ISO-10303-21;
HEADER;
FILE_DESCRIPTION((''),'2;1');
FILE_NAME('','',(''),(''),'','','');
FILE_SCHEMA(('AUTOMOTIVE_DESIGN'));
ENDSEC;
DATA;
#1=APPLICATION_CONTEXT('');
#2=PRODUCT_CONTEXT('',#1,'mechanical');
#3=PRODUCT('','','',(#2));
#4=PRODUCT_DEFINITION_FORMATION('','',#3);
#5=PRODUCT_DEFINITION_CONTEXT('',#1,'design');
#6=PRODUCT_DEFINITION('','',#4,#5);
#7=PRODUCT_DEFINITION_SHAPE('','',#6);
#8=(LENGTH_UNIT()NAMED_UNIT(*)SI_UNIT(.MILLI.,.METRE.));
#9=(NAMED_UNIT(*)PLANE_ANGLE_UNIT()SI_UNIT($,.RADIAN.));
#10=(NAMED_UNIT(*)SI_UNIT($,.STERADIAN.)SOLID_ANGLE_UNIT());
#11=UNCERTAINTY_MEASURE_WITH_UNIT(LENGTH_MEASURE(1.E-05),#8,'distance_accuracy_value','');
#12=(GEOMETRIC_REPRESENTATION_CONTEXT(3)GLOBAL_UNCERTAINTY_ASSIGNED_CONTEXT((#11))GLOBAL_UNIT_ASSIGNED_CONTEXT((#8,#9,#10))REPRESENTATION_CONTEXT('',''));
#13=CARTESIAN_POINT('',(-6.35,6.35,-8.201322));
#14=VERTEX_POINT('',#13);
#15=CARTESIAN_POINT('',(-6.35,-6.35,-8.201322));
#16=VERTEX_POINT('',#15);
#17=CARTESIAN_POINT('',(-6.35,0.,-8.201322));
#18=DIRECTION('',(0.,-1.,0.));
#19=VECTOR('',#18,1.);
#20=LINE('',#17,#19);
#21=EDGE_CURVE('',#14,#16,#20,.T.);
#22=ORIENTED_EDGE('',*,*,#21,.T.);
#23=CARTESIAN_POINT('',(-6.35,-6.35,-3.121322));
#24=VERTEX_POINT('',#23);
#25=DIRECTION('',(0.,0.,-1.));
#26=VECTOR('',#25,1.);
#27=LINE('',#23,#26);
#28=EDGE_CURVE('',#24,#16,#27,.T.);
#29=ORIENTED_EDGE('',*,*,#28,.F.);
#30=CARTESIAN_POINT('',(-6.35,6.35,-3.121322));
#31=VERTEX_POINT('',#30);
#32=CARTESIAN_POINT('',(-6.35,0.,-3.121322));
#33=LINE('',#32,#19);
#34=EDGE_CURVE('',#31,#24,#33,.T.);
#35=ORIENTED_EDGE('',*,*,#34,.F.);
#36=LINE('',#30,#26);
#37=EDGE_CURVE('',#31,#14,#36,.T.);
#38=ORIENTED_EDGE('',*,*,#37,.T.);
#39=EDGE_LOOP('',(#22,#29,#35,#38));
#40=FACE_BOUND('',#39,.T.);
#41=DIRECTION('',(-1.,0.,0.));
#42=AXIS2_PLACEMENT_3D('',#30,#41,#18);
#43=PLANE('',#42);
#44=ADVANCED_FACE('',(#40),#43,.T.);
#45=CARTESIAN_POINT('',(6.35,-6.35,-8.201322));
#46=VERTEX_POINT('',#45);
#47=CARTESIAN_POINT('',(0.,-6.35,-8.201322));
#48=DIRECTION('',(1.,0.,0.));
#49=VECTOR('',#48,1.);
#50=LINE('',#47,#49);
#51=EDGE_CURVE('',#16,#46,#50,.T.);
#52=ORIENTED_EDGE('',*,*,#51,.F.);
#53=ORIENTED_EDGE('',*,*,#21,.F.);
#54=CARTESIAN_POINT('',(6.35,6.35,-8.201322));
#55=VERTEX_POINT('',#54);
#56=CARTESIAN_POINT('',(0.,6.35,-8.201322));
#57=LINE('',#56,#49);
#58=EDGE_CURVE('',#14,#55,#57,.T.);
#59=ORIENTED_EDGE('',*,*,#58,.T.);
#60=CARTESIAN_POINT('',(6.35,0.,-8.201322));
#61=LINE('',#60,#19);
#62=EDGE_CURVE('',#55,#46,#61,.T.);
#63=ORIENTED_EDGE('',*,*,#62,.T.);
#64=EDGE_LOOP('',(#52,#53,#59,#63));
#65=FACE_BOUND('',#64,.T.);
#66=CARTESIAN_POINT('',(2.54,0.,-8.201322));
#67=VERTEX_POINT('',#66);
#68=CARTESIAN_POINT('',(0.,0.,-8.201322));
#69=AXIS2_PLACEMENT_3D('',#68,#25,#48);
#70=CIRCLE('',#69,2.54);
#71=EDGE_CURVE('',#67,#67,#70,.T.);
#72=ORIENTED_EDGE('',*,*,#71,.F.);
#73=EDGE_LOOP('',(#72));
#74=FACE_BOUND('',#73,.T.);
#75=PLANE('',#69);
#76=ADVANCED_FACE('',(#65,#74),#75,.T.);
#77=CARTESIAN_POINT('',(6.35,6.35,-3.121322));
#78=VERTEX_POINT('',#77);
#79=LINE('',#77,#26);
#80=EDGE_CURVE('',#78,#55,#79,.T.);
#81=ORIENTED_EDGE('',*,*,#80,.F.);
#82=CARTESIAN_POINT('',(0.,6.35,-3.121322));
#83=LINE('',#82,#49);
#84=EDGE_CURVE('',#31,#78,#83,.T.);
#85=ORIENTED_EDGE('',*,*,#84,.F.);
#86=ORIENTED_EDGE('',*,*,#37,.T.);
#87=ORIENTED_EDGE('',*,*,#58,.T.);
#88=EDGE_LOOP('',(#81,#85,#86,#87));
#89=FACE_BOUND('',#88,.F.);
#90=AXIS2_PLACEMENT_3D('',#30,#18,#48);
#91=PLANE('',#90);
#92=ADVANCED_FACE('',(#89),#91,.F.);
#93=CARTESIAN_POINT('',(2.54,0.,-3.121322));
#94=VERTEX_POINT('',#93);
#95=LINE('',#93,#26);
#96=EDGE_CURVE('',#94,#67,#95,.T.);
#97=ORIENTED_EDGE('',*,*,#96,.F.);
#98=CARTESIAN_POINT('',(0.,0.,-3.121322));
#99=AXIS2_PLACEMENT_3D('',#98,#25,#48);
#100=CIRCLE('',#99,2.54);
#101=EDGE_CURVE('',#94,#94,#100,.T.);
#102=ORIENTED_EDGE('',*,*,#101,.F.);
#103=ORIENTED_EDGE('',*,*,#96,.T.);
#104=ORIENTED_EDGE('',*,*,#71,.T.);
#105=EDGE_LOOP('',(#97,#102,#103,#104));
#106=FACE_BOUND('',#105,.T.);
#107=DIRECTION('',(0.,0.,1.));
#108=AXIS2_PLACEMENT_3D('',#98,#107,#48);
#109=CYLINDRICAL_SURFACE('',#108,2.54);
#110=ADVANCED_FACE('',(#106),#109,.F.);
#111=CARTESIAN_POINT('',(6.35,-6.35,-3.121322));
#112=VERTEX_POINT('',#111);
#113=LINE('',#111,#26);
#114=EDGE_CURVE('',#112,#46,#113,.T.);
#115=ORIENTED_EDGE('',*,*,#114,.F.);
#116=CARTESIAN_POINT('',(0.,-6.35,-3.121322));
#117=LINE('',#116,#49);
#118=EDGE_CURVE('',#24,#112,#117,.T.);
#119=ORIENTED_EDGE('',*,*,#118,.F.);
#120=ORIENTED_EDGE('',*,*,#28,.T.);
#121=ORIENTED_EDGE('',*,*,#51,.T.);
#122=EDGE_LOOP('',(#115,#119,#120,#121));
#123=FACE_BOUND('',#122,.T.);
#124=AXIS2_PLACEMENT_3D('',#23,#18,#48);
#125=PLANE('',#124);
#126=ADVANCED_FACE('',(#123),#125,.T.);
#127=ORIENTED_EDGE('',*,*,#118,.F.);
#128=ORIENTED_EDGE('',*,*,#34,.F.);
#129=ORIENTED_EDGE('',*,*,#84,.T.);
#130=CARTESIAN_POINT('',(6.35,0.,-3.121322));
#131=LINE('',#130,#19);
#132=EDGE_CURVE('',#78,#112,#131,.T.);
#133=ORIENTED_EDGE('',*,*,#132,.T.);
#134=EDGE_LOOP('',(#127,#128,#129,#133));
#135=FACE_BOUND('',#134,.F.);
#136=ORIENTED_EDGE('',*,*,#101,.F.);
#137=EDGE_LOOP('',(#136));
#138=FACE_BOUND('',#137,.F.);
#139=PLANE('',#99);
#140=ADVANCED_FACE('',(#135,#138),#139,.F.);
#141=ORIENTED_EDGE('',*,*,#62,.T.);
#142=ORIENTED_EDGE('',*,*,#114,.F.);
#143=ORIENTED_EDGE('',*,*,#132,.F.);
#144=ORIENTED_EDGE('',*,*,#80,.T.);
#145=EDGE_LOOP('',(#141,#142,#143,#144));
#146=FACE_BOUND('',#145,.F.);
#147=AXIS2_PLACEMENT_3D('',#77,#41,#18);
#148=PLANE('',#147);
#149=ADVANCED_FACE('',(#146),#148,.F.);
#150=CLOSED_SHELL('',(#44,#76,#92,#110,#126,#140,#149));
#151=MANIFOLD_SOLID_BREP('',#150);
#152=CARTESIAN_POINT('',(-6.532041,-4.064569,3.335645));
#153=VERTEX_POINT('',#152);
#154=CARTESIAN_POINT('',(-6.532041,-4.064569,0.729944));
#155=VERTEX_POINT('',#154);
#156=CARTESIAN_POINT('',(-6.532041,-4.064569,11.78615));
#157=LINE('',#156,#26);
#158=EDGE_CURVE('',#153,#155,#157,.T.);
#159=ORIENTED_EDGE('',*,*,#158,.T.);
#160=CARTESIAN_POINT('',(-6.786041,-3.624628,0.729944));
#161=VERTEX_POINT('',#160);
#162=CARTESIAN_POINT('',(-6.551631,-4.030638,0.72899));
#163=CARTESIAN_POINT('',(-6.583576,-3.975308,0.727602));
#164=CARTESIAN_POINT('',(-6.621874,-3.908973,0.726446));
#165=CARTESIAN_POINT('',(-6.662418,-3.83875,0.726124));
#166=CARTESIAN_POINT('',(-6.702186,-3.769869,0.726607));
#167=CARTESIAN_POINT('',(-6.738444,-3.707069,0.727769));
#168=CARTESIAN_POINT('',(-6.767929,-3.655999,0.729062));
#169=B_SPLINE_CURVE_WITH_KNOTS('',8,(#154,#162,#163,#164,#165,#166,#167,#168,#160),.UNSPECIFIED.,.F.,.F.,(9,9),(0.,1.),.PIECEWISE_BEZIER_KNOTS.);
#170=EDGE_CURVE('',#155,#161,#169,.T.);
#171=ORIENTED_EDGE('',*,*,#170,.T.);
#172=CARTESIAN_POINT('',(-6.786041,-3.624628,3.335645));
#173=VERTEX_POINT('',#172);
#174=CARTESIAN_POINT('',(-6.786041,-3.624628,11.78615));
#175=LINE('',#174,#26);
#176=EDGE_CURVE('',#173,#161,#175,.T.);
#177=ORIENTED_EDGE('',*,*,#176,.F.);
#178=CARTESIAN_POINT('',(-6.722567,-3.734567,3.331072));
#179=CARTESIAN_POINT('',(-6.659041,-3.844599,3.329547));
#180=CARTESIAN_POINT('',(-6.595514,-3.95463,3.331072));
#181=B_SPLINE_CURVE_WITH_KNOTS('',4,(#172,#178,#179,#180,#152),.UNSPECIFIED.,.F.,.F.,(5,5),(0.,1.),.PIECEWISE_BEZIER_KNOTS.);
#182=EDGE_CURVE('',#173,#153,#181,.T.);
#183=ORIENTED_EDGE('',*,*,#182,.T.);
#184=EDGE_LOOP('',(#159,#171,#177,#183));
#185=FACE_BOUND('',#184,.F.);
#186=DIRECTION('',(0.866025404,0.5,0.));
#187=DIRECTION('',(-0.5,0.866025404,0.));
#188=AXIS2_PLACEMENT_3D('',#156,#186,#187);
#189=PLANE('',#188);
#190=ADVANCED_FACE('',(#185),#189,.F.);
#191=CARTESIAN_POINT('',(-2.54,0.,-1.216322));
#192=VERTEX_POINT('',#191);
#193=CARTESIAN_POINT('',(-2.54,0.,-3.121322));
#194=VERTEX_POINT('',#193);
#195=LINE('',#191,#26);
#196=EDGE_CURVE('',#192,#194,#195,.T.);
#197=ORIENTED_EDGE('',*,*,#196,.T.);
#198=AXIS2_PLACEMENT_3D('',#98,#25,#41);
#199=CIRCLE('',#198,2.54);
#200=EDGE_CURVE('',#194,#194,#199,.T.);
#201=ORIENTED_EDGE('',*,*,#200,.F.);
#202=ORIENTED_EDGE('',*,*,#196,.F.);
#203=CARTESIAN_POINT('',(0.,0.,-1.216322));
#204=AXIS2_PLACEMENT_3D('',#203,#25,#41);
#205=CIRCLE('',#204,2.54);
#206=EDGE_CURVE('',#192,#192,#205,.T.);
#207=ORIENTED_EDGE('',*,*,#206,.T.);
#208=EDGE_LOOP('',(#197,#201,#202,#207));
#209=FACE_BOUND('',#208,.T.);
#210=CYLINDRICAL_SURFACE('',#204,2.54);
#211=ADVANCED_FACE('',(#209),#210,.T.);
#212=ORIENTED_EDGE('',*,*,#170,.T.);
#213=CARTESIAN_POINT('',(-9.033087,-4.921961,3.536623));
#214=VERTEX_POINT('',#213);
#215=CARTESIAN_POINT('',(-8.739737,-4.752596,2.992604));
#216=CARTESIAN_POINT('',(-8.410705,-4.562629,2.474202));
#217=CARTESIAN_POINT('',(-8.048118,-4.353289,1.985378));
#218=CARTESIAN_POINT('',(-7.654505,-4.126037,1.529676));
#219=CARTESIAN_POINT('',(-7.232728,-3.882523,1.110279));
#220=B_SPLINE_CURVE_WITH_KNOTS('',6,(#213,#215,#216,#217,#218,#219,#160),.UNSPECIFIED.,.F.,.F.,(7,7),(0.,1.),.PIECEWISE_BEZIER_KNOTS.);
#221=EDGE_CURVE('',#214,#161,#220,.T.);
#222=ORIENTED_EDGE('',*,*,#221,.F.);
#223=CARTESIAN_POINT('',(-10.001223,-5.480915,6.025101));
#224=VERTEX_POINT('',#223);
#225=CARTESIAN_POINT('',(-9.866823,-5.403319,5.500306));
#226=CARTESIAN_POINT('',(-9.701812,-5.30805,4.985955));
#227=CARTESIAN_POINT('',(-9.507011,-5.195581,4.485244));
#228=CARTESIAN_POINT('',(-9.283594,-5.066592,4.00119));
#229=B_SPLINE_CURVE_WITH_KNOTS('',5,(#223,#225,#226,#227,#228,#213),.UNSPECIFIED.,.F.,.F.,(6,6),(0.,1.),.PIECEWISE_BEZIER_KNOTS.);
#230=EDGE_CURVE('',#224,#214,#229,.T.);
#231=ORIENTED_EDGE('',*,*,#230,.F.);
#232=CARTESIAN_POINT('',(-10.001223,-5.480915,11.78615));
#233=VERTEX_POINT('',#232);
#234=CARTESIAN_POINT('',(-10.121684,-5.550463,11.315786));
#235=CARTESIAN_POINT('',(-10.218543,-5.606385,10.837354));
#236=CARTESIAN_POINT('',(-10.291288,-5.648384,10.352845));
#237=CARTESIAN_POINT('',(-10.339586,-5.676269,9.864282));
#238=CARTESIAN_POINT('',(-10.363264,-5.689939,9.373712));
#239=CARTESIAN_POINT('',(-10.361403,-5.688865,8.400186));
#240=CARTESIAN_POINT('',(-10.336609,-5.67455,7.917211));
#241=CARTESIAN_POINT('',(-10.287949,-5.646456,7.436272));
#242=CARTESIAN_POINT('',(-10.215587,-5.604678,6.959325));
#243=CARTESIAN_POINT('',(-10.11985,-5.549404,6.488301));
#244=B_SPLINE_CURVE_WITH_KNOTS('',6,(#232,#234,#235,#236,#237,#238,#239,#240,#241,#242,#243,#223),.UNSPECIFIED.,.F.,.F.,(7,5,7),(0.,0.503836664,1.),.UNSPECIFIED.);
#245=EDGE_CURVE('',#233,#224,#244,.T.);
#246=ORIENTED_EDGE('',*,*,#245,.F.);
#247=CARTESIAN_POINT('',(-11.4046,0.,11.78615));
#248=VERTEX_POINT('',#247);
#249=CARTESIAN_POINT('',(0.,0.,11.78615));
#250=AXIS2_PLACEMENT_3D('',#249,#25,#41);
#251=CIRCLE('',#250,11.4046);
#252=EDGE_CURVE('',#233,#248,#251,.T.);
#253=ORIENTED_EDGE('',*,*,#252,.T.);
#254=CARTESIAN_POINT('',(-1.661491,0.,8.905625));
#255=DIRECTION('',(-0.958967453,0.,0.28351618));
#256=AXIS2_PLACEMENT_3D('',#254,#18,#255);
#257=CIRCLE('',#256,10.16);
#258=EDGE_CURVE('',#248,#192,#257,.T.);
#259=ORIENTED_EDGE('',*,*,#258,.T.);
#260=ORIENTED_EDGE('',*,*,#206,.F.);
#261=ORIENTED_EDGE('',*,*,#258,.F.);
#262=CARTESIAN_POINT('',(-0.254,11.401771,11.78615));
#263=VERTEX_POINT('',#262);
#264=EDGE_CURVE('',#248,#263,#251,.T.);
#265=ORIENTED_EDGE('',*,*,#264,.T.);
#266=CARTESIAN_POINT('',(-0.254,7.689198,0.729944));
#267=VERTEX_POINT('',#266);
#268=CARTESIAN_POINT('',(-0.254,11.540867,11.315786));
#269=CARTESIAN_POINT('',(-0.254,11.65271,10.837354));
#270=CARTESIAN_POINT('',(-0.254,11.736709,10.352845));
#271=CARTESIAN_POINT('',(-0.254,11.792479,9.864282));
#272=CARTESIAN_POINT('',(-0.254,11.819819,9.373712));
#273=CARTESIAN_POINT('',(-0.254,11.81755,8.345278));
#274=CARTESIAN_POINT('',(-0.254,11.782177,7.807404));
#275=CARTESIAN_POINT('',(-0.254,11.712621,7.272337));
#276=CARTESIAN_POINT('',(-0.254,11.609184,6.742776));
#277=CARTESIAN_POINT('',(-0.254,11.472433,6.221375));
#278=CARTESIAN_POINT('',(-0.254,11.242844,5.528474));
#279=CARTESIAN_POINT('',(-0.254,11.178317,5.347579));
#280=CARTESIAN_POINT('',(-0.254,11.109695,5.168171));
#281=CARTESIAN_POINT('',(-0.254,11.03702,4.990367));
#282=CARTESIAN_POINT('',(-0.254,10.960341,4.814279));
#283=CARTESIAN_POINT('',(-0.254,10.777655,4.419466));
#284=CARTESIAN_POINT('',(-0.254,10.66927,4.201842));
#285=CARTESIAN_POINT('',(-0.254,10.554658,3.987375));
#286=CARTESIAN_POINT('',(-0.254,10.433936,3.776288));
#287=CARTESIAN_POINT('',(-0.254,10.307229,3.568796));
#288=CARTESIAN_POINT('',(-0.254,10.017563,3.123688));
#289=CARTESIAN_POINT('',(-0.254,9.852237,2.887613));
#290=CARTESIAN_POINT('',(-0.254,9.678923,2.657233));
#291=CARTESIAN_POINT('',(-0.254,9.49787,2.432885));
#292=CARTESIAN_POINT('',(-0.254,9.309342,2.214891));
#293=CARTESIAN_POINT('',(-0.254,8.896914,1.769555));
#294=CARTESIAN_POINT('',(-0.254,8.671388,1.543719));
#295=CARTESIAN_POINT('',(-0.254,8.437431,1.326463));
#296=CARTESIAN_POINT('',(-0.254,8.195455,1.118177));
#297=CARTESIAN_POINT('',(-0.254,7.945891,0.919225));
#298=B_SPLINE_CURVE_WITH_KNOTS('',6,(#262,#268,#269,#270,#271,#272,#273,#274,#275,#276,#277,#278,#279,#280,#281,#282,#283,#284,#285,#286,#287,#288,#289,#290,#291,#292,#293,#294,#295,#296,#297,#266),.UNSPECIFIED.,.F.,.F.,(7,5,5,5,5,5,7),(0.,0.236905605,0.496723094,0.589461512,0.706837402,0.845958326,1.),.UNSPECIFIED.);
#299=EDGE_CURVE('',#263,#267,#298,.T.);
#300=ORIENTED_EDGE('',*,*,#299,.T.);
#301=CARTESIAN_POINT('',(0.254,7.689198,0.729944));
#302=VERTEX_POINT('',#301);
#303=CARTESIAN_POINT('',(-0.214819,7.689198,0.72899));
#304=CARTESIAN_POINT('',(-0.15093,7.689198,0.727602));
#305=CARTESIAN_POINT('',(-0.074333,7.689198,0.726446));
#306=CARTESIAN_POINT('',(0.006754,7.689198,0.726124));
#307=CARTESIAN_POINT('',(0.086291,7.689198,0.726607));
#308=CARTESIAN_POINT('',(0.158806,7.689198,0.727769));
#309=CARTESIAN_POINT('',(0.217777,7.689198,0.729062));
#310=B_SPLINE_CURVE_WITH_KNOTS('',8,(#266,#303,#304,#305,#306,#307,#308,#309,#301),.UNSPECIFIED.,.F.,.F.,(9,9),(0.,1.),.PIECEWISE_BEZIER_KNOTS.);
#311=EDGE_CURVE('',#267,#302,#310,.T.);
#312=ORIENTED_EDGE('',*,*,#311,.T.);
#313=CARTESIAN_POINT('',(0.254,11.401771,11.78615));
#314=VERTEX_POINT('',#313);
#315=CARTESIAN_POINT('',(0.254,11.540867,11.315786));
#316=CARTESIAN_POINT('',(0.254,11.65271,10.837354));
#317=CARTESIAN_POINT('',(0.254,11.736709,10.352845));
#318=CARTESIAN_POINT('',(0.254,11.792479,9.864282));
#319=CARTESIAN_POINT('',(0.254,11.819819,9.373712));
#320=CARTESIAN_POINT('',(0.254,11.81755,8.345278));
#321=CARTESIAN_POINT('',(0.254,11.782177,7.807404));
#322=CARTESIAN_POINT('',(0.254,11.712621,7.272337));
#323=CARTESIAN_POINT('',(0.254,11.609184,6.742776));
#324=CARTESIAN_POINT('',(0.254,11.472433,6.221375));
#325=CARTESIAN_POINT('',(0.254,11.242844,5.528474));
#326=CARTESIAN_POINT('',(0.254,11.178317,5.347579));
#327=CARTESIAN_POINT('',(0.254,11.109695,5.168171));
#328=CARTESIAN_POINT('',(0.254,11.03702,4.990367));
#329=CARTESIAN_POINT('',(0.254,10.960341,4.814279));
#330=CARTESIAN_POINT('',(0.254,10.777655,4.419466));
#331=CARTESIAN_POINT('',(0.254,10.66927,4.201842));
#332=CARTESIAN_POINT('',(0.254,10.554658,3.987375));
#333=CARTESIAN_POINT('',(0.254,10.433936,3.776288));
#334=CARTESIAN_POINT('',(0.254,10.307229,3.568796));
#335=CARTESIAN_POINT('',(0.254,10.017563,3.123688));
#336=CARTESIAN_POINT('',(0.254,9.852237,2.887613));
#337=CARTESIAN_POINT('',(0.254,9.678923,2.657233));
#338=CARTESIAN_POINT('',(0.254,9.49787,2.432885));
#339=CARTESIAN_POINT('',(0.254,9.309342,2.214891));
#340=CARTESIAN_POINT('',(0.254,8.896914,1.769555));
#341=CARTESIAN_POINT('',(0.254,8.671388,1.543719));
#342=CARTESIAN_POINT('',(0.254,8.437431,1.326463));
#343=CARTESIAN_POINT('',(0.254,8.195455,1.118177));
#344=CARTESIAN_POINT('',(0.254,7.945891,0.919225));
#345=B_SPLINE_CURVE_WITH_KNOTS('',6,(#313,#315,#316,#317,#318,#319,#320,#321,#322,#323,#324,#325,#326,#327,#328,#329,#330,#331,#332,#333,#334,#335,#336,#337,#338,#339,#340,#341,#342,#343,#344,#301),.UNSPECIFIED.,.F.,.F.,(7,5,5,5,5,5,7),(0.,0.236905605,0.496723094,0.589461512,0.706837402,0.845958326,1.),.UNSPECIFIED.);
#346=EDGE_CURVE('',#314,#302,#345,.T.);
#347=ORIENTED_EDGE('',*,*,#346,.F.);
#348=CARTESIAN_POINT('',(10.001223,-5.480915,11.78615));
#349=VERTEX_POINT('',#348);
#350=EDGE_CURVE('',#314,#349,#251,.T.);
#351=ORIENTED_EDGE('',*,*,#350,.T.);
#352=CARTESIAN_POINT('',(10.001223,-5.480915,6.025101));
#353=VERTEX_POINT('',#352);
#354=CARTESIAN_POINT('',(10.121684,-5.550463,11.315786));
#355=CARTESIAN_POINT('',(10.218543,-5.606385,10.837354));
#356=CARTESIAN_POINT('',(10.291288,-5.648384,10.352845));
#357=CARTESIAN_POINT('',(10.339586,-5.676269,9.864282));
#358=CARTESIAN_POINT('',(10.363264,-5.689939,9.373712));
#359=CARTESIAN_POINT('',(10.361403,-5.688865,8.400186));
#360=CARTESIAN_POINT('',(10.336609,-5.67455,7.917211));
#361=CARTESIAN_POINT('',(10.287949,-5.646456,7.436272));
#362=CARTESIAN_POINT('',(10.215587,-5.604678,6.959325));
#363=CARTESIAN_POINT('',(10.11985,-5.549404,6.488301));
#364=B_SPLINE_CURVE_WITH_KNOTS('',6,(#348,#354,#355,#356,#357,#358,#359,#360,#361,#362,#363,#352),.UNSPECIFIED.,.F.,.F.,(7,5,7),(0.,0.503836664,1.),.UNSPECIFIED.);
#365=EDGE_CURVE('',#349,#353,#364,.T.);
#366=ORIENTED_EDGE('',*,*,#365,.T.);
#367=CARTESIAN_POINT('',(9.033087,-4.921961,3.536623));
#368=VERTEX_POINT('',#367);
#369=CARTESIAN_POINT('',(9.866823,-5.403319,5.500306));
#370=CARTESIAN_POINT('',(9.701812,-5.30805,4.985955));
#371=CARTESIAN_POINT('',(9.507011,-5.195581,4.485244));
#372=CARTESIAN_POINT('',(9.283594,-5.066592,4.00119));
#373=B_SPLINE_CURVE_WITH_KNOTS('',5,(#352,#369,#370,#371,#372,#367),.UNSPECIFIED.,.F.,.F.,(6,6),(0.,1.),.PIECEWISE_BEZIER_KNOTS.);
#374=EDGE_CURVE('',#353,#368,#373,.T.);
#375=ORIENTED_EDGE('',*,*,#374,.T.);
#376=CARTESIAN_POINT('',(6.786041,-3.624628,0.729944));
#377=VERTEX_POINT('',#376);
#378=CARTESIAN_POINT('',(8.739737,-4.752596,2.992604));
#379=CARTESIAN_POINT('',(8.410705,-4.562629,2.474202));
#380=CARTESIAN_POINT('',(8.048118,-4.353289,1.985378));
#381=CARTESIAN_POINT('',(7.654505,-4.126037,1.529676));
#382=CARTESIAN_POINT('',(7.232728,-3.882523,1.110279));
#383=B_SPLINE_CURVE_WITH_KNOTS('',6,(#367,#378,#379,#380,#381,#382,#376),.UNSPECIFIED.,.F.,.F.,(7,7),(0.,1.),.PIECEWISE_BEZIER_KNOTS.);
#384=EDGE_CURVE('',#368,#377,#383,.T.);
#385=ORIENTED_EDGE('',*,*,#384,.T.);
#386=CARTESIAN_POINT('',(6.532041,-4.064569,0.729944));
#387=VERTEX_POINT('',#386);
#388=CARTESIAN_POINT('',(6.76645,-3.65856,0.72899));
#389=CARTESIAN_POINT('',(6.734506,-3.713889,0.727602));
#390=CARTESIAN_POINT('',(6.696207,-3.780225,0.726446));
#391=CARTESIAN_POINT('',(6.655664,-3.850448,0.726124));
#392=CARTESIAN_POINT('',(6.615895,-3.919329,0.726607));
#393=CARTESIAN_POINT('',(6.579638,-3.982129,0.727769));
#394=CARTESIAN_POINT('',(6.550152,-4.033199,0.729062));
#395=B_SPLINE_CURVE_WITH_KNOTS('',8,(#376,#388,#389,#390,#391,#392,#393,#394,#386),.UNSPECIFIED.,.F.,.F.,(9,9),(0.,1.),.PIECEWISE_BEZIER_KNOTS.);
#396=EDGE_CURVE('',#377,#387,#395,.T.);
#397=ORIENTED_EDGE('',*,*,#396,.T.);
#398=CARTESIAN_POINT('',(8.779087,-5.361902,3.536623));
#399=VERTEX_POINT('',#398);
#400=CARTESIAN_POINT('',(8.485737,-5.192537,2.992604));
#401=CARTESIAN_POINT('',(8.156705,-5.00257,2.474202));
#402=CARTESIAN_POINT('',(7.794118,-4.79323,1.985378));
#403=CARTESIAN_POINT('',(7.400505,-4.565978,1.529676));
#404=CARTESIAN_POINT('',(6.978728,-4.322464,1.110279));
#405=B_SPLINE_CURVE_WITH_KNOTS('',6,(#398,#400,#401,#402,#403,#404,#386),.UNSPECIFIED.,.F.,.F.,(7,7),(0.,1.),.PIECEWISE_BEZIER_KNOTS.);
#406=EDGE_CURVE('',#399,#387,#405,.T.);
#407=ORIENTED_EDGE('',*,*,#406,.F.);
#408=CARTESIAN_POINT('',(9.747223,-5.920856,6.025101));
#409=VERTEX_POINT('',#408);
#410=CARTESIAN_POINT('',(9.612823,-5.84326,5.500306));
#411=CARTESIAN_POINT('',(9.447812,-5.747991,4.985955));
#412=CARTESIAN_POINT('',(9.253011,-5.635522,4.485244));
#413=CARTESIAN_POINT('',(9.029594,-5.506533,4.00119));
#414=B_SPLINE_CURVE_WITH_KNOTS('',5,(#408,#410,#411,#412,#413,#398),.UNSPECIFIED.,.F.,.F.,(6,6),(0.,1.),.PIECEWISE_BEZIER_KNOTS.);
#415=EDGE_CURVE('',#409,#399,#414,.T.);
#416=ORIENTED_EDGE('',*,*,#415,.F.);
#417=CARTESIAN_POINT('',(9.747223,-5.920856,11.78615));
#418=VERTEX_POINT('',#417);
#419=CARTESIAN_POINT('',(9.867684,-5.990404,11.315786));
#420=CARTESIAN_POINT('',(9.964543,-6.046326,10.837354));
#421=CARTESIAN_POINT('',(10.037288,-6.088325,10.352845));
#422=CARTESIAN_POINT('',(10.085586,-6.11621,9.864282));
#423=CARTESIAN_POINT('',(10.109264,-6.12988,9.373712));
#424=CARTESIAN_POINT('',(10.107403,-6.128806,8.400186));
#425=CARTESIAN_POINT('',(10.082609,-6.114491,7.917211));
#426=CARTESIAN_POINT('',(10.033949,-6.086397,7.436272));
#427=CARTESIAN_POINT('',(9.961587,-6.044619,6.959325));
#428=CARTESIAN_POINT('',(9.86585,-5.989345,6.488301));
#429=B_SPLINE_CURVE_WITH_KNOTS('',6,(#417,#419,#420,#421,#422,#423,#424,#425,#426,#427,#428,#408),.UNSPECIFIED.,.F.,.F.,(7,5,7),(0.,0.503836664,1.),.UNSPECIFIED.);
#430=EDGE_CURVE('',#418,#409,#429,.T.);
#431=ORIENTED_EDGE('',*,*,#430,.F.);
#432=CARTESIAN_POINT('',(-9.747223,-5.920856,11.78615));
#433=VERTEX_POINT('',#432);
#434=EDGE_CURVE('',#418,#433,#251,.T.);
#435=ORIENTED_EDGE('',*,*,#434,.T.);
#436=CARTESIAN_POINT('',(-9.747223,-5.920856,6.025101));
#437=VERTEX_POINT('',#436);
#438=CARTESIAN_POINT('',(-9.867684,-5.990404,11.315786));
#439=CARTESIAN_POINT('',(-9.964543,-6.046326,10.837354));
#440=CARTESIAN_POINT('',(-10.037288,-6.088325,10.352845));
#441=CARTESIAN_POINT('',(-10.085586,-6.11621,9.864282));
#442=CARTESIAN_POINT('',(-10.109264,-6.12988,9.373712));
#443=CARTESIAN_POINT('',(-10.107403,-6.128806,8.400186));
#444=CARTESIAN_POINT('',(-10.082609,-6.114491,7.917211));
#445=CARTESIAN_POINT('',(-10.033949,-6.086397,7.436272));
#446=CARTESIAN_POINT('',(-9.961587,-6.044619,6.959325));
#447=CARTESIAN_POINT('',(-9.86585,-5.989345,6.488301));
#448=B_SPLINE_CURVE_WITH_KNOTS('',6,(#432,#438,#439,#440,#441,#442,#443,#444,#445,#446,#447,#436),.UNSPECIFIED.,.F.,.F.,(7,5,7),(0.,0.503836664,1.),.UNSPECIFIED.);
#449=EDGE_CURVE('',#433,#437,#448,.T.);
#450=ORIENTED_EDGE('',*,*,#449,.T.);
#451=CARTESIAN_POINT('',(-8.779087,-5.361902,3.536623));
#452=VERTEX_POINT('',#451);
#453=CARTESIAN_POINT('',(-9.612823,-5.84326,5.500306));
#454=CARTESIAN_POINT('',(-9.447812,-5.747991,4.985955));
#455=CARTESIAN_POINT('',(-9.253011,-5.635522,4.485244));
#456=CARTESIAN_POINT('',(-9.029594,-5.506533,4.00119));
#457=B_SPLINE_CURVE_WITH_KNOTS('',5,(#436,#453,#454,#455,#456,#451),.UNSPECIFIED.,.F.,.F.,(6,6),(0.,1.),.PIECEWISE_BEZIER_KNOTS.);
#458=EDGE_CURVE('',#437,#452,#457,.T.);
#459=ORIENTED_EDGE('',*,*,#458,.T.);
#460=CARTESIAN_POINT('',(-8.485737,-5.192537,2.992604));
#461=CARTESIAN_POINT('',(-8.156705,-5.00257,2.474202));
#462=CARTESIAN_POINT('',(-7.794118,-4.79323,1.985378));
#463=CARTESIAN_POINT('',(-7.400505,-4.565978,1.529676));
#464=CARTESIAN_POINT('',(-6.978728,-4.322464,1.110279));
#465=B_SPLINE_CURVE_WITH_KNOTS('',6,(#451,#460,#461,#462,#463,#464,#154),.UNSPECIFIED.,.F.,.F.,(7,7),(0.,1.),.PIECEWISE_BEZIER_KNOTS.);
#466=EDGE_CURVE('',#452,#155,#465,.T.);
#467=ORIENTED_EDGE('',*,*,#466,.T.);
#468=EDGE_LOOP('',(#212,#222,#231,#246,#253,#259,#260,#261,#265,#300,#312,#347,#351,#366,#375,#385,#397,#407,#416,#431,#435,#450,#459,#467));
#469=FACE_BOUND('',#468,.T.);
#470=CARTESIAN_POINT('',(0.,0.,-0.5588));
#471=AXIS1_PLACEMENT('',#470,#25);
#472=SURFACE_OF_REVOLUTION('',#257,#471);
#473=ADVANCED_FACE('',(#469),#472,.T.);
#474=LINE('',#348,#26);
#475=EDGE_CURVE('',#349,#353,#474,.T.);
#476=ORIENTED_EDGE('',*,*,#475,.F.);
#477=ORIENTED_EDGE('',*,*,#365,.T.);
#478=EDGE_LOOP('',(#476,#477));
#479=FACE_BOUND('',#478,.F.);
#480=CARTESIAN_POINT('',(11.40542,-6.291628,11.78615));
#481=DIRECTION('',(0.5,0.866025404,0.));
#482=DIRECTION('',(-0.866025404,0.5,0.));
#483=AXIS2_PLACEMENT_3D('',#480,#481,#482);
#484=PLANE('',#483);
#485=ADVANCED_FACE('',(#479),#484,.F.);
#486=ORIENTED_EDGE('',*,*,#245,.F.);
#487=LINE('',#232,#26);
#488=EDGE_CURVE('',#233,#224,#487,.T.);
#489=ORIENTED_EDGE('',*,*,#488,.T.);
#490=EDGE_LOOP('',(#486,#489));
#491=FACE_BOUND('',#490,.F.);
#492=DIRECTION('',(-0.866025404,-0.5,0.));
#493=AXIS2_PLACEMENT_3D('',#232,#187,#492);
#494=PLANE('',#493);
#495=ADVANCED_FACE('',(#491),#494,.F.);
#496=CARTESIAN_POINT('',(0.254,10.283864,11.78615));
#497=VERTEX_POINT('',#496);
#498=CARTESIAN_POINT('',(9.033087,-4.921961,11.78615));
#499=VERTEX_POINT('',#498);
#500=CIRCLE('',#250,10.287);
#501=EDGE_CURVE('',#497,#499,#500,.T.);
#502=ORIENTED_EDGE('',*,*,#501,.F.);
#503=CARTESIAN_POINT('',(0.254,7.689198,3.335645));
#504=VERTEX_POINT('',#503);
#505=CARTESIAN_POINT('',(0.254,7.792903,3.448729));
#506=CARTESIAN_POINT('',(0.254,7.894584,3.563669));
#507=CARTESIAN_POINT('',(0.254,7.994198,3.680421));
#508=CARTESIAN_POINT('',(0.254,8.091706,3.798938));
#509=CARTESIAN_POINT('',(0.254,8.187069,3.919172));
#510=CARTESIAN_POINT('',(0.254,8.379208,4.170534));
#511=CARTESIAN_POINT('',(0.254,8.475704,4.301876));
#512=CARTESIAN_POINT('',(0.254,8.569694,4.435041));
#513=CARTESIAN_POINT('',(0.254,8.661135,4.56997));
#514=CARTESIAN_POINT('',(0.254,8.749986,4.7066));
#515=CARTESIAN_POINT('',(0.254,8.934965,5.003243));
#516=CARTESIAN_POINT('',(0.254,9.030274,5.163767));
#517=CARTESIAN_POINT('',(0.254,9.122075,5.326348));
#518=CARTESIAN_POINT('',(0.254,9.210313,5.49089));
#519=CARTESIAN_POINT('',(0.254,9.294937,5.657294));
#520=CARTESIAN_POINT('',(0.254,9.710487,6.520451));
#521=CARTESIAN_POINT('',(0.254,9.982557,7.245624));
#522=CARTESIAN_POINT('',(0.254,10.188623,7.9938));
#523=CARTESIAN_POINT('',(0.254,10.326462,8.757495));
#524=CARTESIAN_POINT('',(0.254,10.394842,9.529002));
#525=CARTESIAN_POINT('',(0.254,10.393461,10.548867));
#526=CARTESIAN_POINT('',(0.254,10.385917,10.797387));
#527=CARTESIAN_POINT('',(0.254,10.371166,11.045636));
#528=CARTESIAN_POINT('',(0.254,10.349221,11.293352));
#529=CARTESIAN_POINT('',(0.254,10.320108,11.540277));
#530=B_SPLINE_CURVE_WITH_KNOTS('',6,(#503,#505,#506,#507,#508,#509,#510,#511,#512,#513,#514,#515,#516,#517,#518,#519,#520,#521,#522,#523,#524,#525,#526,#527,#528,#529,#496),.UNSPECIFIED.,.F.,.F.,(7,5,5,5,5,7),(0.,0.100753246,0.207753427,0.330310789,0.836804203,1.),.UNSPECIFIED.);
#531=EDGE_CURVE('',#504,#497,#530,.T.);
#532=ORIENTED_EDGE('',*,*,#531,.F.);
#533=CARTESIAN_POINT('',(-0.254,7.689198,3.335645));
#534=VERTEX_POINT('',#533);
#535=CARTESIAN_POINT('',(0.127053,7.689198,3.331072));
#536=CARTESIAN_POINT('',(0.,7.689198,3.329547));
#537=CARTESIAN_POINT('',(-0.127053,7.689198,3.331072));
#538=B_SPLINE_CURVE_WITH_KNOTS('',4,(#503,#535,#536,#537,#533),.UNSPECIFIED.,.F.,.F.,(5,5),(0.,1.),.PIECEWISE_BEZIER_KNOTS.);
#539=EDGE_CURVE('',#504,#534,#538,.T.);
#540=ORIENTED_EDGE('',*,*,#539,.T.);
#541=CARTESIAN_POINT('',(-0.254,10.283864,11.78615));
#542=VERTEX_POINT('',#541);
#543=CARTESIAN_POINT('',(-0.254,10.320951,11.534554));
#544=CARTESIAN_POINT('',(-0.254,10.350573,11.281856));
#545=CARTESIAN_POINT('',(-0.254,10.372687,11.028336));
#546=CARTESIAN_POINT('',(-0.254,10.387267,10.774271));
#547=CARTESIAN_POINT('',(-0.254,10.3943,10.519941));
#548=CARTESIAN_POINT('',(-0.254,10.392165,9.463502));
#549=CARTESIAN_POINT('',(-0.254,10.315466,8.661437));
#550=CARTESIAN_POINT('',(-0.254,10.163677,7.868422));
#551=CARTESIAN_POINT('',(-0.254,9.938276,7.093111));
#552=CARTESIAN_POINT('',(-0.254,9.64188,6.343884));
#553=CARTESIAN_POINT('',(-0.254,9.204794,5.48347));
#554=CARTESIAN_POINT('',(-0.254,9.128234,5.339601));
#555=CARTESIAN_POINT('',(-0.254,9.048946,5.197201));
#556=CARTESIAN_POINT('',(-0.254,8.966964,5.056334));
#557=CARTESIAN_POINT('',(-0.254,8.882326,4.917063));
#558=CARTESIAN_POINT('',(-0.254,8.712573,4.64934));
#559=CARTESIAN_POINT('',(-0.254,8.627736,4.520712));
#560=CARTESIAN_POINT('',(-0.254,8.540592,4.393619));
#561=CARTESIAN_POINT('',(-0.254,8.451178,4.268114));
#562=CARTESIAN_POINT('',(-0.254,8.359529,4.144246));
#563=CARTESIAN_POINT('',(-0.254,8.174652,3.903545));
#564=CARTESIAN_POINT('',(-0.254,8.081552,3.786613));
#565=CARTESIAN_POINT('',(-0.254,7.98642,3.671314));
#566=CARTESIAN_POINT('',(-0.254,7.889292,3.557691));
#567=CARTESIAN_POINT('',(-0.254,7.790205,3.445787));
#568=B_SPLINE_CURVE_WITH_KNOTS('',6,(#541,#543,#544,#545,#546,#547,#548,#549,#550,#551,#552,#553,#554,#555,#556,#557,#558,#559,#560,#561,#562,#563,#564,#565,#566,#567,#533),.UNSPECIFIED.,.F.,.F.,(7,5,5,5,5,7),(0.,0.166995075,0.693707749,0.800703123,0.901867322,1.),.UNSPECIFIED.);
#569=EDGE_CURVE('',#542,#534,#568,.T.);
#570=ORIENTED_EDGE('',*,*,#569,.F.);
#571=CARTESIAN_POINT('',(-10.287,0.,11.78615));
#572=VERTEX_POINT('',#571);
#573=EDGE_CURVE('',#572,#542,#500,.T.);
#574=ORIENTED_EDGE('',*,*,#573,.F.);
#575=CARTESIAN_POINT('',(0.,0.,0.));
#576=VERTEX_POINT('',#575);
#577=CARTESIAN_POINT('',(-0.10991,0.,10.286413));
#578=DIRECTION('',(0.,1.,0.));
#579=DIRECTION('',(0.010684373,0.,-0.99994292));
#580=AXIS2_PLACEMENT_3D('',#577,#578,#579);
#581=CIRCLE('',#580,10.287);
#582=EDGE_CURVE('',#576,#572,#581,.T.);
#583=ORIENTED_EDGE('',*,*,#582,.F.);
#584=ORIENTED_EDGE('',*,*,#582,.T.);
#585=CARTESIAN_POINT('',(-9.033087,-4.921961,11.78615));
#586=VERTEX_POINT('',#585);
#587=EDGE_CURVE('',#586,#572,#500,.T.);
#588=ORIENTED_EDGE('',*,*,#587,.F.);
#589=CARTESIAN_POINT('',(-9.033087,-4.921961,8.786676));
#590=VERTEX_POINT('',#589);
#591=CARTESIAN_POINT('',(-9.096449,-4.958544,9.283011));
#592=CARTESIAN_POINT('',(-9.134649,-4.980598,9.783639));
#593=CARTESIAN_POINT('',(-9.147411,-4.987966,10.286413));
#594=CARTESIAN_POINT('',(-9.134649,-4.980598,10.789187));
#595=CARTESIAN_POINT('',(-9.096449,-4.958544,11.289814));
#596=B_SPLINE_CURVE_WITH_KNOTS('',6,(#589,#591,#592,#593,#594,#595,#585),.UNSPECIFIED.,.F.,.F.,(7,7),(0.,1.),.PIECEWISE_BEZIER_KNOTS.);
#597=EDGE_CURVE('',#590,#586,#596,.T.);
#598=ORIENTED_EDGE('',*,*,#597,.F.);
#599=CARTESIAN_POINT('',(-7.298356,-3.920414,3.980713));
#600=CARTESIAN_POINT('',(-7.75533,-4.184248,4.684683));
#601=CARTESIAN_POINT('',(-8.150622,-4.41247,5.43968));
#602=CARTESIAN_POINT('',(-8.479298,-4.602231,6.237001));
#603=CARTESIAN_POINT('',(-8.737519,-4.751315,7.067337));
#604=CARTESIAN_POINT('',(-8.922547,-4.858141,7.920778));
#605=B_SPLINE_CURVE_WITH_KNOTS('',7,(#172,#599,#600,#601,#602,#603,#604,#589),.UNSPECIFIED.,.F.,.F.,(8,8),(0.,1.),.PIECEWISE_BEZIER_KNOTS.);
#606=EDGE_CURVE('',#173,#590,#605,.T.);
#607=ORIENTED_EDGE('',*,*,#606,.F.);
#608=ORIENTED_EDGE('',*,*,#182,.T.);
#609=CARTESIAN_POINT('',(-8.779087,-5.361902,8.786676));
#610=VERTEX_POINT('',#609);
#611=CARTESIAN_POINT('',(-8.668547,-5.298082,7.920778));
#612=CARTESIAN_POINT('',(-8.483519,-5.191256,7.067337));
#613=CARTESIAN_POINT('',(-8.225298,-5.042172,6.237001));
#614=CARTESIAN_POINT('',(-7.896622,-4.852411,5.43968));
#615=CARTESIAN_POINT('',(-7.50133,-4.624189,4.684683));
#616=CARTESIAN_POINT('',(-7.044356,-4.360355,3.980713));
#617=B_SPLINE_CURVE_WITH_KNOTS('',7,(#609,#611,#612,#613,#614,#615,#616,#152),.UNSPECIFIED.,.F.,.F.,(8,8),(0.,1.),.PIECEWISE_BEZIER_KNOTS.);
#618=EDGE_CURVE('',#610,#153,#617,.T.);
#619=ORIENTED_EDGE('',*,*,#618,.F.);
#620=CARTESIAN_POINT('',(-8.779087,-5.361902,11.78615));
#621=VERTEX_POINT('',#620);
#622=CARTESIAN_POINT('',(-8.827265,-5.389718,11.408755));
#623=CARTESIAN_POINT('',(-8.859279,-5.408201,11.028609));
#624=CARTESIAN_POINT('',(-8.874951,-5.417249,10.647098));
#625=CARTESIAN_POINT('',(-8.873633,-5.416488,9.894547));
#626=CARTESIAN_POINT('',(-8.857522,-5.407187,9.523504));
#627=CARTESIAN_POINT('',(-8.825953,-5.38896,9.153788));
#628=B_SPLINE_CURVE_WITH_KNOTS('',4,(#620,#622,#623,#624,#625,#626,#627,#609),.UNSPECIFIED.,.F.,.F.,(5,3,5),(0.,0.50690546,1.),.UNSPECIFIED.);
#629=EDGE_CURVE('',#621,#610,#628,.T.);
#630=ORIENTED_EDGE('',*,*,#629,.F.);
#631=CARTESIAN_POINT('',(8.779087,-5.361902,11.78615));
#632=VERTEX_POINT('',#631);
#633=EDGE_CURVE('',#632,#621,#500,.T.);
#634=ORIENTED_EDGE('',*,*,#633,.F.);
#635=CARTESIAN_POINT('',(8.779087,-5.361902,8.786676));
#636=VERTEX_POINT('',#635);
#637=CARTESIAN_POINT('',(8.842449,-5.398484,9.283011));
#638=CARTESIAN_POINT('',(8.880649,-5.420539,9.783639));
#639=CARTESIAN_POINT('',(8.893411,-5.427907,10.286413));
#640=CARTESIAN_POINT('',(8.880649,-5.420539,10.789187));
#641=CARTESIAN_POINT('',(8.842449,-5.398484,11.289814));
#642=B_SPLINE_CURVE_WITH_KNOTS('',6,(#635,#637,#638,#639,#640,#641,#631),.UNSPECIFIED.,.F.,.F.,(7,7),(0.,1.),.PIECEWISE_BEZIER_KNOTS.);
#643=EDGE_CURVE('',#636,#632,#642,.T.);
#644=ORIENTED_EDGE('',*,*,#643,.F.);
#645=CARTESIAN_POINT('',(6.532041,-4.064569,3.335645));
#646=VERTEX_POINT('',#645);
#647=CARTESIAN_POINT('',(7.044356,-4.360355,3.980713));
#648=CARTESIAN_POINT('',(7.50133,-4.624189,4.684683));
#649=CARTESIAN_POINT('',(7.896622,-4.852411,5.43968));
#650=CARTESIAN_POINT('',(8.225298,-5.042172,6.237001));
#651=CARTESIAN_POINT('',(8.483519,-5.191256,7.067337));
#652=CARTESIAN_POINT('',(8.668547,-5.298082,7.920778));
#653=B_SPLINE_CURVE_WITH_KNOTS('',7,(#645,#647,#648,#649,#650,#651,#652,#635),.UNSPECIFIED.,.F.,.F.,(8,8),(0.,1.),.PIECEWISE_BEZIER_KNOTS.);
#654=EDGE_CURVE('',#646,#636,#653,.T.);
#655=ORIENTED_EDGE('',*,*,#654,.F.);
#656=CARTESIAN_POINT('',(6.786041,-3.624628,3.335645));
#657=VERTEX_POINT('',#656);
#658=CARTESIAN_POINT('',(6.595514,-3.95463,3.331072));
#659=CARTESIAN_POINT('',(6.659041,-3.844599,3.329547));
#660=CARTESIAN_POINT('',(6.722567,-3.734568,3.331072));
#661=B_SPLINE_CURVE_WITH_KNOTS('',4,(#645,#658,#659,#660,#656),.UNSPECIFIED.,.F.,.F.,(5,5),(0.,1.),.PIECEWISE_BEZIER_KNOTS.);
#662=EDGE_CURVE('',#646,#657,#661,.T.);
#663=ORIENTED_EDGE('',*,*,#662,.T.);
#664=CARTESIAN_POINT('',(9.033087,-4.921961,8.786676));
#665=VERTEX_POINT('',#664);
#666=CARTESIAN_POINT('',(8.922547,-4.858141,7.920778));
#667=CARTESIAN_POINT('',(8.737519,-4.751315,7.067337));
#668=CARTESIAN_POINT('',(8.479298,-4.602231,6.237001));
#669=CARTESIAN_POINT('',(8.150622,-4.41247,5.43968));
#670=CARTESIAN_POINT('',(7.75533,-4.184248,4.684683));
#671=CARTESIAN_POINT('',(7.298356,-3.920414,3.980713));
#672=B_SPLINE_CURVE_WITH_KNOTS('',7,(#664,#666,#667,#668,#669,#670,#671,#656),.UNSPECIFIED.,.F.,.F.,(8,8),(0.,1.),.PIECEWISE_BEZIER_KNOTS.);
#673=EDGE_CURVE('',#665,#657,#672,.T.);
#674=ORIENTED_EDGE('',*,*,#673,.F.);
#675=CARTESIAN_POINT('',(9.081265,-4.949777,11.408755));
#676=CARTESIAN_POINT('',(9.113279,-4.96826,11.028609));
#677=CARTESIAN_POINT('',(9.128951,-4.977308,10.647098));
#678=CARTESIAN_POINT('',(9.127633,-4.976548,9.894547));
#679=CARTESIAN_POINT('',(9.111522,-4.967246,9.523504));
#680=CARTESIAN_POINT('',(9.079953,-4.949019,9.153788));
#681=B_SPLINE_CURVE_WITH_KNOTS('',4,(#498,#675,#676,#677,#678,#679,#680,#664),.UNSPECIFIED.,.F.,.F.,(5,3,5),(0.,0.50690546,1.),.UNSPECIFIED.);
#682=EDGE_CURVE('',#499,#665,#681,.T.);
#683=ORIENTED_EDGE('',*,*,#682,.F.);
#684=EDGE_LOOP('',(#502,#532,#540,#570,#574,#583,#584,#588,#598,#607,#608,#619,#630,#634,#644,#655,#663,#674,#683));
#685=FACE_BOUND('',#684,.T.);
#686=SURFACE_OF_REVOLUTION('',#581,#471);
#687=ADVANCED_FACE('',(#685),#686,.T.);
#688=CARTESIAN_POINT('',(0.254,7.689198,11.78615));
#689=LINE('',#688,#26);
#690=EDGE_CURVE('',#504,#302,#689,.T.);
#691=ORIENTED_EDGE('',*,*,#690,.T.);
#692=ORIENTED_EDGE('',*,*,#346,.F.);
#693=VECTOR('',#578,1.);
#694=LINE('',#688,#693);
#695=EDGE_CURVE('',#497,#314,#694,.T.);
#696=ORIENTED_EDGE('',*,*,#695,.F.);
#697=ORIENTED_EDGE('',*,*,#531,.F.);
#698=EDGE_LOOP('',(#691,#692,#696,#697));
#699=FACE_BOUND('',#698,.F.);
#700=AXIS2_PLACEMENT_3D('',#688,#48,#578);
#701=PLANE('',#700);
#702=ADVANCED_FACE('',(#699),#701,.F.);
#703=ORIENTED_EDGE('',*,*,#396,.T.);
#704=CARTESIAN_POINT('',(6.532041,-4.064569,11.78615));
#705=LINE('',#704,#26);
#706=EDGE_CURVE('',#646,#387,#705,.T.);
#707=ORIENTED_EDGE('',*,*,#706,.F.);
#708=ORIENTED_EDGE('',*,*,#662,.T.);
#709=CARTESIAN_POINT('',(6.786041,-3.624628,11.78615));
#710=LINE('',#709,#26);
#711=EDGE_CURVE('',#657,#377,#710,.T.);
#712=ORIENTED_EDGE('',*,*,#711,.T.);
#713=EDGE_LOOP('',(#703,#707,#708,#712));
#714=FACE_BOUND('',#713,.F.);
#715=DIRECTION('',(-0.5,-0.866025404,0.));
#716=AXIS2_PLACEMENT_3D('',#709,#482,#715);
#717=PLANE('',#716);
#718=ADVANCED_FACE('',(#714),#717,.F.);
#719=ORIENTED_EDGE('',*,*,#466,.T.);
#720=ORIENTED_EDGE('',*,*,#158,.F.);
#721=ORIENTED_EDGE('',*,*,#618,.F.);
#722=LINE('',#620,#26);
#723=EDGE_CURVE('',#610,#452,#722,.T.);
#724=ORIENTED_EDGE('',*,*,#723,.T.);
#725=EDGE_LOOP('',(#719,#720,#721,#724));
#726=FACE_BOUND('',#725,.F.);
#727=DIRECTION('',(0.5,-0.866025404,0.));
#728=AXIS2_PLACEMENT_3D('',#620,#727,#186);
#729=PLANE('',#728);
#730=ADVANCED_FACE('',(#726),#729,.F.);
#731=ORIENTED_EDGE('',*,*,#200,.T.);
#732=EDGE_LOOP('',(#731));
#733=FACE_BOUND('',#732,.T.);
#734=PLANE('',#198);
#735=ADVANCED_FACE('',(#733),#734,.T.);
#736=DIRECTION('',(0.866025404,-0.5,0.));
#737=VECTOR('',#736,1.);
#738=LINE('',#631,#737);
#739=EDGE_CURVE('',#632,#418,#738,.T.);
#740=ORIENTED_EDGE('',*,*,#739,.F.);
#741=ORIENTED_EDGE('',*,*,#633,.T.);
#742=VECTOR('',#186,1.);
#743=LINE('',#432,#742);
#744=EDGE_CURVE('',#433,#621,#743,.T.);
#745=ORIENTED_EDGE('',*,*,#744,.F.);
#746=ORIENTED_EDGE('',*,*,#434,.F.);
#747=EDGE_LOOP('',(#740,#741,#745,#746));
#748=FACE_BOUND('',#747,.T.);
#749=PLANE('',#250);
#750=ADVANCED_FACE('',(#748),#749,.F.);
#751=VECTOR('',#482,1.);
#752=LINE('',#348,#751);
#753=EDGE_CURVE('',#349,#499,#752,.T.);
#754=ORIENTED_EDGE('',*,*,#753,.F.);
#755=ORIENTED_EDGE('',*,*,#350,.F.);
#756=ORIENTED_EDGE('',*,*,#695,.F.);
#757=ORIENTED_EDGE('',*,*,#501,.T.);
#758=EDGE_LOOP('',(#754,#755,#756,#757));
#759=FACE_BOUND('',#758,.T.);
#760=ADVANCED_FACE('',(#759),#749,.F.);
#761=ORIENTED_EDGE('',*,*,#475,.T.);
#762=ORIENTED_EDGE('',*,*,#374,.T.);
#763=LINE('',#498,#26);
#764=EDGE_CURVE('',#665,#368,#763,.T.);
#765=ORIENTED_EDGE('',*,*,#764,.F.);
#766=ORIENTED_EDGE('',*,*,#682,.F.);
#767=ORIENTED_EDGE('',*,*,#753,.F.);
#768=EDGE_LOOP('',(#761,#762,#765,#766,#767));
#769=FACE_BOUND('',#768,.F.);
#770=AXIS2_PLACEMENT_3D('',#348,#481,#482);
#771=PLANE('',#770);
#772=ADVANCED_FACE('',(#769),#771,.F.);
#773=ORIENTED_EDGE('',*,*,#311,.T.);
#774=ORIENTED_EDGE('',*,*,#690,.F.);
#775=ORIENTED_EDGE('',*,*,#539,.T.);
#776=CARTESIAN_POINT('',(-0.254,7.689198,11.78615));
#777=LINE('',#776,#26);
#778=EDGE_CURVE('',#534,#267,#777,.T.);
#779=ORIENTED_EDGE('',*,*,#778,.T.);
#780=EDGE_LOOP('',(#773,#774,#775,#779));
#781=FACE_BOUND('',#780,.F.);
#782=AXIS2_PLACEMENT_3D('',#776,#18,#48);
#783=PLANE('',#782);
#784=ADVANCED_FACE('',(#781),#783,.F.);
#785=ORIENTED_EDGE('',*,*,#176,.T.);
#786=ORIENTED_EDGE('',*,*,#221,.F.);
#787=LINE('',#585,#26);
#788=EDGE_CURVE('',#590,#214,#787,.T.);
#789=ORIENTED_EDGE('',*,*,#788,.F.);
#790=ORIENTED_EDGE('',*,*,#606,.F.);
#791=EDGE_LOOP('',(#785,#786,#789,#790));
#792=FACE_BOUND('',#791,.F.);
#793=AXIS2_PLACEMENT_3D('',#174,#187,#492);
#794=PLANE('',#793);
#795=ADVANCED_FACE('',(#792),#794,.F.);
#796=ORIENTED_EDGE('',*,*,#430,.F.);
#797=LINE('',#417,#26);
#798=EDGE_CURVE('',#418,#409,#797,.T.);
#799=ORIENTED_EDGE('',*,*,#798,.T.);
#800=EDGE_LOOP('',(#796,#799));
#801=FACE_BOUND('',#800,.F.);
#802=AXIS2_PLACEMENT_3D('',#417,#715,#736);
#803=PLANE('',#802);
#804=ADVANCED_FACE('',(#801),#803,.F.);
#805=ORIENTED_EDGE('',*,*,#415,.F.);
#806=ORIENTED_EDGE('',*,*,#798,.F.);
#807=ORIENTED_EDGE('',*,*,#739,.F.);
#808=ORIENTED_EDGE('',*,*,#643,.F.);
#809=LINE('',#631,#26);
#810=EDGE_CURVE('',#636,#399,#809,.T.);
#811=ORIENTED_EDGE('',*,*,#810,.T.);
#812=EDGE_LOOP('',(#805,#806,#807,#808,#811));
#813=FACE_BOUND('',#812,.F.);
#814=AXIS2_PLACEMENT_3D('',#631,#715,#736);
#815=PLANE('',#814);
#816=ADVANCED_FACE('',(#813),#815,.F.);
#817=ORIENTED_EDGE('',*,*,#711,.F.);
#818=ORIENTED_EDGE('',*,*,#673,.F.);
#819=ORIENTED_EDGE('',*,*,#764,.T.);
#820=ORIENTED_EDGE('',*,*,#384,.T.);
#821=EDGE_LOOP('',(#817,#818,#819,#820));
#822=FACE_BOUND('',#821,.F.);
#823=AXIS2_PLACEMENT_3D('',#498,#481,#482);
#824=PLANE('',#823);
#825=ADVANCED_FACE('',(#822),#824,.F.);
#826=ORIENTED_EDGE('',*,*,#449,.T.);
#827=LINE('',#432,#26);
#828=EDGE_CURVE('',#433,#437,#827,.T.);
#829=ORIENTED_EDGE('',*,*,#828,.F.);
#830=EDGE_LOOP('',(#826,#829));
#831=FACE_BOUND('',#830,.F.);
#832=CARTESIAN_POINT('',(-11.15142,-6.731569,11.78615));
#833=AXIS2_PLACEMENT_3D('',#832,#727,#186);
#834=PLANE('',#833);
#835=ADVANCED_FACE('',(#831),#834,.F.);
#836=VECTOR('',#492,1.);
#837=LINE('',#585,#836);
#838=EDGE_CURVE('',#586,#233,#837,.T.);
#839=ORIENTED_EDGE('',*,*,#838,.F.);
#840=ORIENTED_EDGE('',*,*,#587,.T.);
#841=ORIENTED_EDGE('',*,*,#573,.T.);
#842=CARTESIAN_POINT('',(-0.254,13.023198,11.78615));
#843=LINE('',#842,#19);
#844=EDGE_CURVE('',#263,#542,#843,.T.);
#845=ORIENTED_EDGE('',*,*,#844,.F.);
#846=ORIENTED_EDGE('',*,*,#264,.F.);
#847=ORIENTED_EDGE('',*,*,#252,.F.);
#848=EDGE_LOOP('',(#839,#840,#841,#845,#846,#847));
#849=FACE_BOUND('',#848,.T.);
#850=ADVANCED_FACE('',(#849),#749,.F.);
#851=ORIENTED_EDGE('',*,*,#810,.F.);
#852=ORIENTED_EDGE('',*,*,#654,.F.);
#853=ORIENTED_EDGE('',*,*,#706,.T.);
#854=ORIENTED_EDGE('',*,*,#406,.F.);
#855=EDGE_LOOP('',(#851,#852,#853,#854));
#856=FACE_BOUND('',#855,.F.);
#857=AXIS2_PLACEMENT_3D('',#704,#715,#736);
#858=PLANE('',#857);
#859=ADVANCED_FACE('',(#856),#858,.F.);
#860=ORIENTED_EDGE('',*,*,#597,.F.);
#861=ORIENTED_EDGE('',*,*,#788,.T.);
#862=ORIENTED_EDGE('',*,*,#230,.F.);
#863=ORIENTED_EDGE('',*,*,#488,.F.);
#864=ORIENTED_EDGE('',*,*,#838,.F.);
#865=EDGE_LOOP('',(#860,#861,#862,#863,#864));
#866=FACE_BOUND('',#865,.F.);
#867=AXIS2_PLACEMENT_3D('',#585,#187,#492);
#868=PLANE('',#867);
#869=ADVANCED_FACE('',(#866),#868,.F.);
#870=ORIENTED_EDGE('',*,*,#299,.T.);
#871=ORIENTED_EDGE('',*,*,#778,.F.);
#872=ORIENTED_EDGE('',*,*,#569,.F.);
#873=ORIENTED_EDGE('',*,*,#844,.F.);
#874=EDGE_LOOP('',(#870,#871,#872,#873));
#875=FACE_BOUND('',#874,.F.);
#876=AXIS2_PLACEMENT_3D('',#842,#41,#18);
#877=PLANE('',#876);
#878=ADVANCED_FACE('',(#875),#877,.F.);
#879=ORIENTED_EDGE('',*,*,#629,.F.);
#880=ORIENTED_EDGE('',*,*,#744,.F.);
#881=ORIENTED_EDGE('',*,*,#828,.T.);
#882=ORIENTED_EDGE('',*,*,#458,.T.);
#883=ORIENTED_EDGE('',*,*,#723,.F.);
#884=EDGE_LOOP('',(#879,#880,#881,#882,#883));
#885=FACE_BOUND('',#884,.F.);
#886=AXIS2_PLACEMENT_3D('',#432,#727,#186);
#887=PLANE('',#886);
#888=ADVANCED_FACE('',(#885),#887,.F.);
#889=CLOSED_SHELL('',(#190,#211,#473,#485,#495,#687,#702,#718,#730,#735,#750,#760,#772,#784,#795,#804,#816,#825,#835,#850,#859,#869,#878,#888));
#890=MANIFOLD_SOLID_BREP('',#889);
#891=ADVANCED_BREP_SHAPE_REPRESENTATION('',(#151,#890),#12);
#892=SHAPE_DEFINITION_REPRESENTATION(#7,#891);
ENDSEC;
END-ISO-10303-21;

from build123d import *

# Parameters (mm, degrees)
F3_DEPTH = 25.4
F4_W     = 12.7
F4_H     = 12.7
F4_R     = 2.54
F5_DEPTH = 5.08


with BuildPart() as f1:
    # F0 (on Front) → F1 (revolve)
    with BuildSketch(Plane.XZ):
        with BuildLine():
            ThreePointArc((0, 0), (-7.8600945924, 3.5220200118), (-10.287, 11.7861498576))
            Line((-10.287, 11.7861498576), (-11.4046, 11.7861498576))
            ThreePointArc((-11.4046, 11.7861498576), (-10.0561773639, 3.1824414318), (-2.54, -1.2163220441))
            ThreePointArc((-2.54, -1.2163220441), (-1.266900433, -1.2467091699), (0, -1.1176))
            Line((0, -1.1176), (0, 0))
        make_face()
        with BuildLine():
            Line((0, -3.1213220441), (0, -1.1176))
            ThreePointArc((0, -1.1176), (-1.266900433, -1.2467091699), (-2.54, -1.2163220441))
            Line((-2.54, -1.2163220441), (-2.54, -3.1213220441))
            Line((-2.54, -3.1213220441), (0, -3.1213220441))
        make_face()
    revolve(axis=Axis((0, 0, -0.5588), (0, 0, -1)))

    # F2 (on face) → F3 (cut)
    with BuildSketch(Plane.XY.offset(11.7861498576)):
        with BuildLine():
            ThreePointArc((-9.7472234566, -5.9208560232), (-9.87667332, -5.7023), (-10.0012234566, -5.4809151181))
            Line((-10.0012234566, -5.4809151181), (-11.4054201609, -6.2916284634))
            Line((-11.4054201609, -6.2916284634), (-11.1514201609, -6.7315693685))
            Line((-11.1514201609, -6.7315693685), (-9.7472234566, -5.9208560232))
        make_face()
        with BuildLine():
            Line((-6.7860406572, -3.6246284634), (-9.0330872301, -4.9219614072))
            ThreePointArc((-9.0330872301, -4.9219614072), (-8.9088033287, -5.1435), (-8.7790872301, -5.3619023123))
            Line((-8.7790872301, -5.3619023123), (-6.5320406572, -4.0645693685))
            Line((-6.5320406572, -4.0645693685), (-6.7860406572, -3.6246284634))
        make_face()
        with BuildLine():
            ThreePointArc((-8.7790872301, -5.3619023123), (-8.9088033287, -5.1435), (-9.0330872301, -4.9219614072))
            Line((-9.0330872301, -4.9219614072), (-10.0012234566, -5.4809151181))
            ThreePointArc((-10.0012234566, -5.4809151181), (-9.87667332, -5.7023), (-9.7472234566, -5.9208560232))
            Line((-9.7472234566, -5.9208560232), (-8.7790872301, -5.3619023123))
        make_face()
        with BuildLine():
            Line((-0.254, 13.0231978319), (-0.254, 11.4017711414))
            ThreePointArc((-0.254, 11.4017711414), (0, 11.4046), (0.254, 11.4017711414))
            Line((0.254, 11.4017711414), (0.254, 13.0231978319))
            Line((0.254, 13.0231978319), (-0.254, 13.0231978319))
        make_face()
        with BuildLine():
            Line((-0.254, 11.4017711414), (-0.254, 10.2838637194))
            ThreePointArc((-0.254, 10.2838637194), (0, 10.287), (0.254, 10.2838637194))
            Line((0.254, 10.2838637194), (0.254, 11.4017711414))
            ThreePointArc((0.254, 11.4017711414), (0, 11.4046), (-0.254, 11.4017711414))
        make_face()
        with BuildLine():
            Line((-0.254, 10.2838637194), (-0.254, 7.6891978319))
            Line((-0.254, 7.6891978319), (0.254, 7.6891978319))
            Line((0.254, 7.6891978319), (0.254, 10.2838637194))
            ThreePointArc((0.254, 10.2838637194), (0, 10.287), (-0.254, 10.2838637194))
        make_face()
        with BuildLine():
            Line((11.4054201609, -6.2916284634), (10.0012234566, -5.4809151181))
            ThreePointArc((10.0012234566, -5.4809151181), (9.87667332, -5.7023), (9.7472234566, -5.9208560232))
            Line((9.7472234566, -5.9208560232), (11.1514201609, -6.7315693685))
            Line((11.1514201609, -6.7315693685), (11.4054201609, -6.2916284634))
        make_face()
        with BuildLine():
            Line((10.0012234566, -5.4809151181), (9.0330872301, -4.9219614072))
            ThreePointArc((9.0330872301, -4.9219614072), (8.9088033287, -5.1435), (8.7790872301, -5.3619023123))
            Line((8.7790872301, -5.3619023123), (9.7472234566, -5.9208560232))
            ThreePointArc((9.7472234566, -5.9208560232), (9.87667332, -5.7023), (10.0012234566, -5.4809151181))
        make_face()
        with BuildLine():
            ThreePointArc((8.7790872301, -5.3619023123), (8.9088033287, -5.1435), (9.0330872301, -4.9219614072))
            Line((9.0330872301, -4.9219614072), (6.7860406572, -3.6246284634))
            Line((6.7860406572, -3.6246284634), (6.5320406572, -4.0645693685))
            Line((6.5320406572, -4.0645693685), (8.7790872301, -5.3619023123))
        make_face()
    extrude(amount=-F3_DEPTH, mode=Mode.SUBTRACT)


with BuildPart() as f5:
    # F4 (on face) → F5 (new body)
    with BuildSketch(Plane(origin=(0, 0, -3.1213220441), x_dir=(1, 0, 0), z_dir=(0, 0, -1))):
        Rectangle(F4_W, F4_H)
        Circle(F4_R, mode=Mode.SUBTRACT)
    extrude(amount=F5_DEPTH)


solid = Compound([f1.part, f5.part])
